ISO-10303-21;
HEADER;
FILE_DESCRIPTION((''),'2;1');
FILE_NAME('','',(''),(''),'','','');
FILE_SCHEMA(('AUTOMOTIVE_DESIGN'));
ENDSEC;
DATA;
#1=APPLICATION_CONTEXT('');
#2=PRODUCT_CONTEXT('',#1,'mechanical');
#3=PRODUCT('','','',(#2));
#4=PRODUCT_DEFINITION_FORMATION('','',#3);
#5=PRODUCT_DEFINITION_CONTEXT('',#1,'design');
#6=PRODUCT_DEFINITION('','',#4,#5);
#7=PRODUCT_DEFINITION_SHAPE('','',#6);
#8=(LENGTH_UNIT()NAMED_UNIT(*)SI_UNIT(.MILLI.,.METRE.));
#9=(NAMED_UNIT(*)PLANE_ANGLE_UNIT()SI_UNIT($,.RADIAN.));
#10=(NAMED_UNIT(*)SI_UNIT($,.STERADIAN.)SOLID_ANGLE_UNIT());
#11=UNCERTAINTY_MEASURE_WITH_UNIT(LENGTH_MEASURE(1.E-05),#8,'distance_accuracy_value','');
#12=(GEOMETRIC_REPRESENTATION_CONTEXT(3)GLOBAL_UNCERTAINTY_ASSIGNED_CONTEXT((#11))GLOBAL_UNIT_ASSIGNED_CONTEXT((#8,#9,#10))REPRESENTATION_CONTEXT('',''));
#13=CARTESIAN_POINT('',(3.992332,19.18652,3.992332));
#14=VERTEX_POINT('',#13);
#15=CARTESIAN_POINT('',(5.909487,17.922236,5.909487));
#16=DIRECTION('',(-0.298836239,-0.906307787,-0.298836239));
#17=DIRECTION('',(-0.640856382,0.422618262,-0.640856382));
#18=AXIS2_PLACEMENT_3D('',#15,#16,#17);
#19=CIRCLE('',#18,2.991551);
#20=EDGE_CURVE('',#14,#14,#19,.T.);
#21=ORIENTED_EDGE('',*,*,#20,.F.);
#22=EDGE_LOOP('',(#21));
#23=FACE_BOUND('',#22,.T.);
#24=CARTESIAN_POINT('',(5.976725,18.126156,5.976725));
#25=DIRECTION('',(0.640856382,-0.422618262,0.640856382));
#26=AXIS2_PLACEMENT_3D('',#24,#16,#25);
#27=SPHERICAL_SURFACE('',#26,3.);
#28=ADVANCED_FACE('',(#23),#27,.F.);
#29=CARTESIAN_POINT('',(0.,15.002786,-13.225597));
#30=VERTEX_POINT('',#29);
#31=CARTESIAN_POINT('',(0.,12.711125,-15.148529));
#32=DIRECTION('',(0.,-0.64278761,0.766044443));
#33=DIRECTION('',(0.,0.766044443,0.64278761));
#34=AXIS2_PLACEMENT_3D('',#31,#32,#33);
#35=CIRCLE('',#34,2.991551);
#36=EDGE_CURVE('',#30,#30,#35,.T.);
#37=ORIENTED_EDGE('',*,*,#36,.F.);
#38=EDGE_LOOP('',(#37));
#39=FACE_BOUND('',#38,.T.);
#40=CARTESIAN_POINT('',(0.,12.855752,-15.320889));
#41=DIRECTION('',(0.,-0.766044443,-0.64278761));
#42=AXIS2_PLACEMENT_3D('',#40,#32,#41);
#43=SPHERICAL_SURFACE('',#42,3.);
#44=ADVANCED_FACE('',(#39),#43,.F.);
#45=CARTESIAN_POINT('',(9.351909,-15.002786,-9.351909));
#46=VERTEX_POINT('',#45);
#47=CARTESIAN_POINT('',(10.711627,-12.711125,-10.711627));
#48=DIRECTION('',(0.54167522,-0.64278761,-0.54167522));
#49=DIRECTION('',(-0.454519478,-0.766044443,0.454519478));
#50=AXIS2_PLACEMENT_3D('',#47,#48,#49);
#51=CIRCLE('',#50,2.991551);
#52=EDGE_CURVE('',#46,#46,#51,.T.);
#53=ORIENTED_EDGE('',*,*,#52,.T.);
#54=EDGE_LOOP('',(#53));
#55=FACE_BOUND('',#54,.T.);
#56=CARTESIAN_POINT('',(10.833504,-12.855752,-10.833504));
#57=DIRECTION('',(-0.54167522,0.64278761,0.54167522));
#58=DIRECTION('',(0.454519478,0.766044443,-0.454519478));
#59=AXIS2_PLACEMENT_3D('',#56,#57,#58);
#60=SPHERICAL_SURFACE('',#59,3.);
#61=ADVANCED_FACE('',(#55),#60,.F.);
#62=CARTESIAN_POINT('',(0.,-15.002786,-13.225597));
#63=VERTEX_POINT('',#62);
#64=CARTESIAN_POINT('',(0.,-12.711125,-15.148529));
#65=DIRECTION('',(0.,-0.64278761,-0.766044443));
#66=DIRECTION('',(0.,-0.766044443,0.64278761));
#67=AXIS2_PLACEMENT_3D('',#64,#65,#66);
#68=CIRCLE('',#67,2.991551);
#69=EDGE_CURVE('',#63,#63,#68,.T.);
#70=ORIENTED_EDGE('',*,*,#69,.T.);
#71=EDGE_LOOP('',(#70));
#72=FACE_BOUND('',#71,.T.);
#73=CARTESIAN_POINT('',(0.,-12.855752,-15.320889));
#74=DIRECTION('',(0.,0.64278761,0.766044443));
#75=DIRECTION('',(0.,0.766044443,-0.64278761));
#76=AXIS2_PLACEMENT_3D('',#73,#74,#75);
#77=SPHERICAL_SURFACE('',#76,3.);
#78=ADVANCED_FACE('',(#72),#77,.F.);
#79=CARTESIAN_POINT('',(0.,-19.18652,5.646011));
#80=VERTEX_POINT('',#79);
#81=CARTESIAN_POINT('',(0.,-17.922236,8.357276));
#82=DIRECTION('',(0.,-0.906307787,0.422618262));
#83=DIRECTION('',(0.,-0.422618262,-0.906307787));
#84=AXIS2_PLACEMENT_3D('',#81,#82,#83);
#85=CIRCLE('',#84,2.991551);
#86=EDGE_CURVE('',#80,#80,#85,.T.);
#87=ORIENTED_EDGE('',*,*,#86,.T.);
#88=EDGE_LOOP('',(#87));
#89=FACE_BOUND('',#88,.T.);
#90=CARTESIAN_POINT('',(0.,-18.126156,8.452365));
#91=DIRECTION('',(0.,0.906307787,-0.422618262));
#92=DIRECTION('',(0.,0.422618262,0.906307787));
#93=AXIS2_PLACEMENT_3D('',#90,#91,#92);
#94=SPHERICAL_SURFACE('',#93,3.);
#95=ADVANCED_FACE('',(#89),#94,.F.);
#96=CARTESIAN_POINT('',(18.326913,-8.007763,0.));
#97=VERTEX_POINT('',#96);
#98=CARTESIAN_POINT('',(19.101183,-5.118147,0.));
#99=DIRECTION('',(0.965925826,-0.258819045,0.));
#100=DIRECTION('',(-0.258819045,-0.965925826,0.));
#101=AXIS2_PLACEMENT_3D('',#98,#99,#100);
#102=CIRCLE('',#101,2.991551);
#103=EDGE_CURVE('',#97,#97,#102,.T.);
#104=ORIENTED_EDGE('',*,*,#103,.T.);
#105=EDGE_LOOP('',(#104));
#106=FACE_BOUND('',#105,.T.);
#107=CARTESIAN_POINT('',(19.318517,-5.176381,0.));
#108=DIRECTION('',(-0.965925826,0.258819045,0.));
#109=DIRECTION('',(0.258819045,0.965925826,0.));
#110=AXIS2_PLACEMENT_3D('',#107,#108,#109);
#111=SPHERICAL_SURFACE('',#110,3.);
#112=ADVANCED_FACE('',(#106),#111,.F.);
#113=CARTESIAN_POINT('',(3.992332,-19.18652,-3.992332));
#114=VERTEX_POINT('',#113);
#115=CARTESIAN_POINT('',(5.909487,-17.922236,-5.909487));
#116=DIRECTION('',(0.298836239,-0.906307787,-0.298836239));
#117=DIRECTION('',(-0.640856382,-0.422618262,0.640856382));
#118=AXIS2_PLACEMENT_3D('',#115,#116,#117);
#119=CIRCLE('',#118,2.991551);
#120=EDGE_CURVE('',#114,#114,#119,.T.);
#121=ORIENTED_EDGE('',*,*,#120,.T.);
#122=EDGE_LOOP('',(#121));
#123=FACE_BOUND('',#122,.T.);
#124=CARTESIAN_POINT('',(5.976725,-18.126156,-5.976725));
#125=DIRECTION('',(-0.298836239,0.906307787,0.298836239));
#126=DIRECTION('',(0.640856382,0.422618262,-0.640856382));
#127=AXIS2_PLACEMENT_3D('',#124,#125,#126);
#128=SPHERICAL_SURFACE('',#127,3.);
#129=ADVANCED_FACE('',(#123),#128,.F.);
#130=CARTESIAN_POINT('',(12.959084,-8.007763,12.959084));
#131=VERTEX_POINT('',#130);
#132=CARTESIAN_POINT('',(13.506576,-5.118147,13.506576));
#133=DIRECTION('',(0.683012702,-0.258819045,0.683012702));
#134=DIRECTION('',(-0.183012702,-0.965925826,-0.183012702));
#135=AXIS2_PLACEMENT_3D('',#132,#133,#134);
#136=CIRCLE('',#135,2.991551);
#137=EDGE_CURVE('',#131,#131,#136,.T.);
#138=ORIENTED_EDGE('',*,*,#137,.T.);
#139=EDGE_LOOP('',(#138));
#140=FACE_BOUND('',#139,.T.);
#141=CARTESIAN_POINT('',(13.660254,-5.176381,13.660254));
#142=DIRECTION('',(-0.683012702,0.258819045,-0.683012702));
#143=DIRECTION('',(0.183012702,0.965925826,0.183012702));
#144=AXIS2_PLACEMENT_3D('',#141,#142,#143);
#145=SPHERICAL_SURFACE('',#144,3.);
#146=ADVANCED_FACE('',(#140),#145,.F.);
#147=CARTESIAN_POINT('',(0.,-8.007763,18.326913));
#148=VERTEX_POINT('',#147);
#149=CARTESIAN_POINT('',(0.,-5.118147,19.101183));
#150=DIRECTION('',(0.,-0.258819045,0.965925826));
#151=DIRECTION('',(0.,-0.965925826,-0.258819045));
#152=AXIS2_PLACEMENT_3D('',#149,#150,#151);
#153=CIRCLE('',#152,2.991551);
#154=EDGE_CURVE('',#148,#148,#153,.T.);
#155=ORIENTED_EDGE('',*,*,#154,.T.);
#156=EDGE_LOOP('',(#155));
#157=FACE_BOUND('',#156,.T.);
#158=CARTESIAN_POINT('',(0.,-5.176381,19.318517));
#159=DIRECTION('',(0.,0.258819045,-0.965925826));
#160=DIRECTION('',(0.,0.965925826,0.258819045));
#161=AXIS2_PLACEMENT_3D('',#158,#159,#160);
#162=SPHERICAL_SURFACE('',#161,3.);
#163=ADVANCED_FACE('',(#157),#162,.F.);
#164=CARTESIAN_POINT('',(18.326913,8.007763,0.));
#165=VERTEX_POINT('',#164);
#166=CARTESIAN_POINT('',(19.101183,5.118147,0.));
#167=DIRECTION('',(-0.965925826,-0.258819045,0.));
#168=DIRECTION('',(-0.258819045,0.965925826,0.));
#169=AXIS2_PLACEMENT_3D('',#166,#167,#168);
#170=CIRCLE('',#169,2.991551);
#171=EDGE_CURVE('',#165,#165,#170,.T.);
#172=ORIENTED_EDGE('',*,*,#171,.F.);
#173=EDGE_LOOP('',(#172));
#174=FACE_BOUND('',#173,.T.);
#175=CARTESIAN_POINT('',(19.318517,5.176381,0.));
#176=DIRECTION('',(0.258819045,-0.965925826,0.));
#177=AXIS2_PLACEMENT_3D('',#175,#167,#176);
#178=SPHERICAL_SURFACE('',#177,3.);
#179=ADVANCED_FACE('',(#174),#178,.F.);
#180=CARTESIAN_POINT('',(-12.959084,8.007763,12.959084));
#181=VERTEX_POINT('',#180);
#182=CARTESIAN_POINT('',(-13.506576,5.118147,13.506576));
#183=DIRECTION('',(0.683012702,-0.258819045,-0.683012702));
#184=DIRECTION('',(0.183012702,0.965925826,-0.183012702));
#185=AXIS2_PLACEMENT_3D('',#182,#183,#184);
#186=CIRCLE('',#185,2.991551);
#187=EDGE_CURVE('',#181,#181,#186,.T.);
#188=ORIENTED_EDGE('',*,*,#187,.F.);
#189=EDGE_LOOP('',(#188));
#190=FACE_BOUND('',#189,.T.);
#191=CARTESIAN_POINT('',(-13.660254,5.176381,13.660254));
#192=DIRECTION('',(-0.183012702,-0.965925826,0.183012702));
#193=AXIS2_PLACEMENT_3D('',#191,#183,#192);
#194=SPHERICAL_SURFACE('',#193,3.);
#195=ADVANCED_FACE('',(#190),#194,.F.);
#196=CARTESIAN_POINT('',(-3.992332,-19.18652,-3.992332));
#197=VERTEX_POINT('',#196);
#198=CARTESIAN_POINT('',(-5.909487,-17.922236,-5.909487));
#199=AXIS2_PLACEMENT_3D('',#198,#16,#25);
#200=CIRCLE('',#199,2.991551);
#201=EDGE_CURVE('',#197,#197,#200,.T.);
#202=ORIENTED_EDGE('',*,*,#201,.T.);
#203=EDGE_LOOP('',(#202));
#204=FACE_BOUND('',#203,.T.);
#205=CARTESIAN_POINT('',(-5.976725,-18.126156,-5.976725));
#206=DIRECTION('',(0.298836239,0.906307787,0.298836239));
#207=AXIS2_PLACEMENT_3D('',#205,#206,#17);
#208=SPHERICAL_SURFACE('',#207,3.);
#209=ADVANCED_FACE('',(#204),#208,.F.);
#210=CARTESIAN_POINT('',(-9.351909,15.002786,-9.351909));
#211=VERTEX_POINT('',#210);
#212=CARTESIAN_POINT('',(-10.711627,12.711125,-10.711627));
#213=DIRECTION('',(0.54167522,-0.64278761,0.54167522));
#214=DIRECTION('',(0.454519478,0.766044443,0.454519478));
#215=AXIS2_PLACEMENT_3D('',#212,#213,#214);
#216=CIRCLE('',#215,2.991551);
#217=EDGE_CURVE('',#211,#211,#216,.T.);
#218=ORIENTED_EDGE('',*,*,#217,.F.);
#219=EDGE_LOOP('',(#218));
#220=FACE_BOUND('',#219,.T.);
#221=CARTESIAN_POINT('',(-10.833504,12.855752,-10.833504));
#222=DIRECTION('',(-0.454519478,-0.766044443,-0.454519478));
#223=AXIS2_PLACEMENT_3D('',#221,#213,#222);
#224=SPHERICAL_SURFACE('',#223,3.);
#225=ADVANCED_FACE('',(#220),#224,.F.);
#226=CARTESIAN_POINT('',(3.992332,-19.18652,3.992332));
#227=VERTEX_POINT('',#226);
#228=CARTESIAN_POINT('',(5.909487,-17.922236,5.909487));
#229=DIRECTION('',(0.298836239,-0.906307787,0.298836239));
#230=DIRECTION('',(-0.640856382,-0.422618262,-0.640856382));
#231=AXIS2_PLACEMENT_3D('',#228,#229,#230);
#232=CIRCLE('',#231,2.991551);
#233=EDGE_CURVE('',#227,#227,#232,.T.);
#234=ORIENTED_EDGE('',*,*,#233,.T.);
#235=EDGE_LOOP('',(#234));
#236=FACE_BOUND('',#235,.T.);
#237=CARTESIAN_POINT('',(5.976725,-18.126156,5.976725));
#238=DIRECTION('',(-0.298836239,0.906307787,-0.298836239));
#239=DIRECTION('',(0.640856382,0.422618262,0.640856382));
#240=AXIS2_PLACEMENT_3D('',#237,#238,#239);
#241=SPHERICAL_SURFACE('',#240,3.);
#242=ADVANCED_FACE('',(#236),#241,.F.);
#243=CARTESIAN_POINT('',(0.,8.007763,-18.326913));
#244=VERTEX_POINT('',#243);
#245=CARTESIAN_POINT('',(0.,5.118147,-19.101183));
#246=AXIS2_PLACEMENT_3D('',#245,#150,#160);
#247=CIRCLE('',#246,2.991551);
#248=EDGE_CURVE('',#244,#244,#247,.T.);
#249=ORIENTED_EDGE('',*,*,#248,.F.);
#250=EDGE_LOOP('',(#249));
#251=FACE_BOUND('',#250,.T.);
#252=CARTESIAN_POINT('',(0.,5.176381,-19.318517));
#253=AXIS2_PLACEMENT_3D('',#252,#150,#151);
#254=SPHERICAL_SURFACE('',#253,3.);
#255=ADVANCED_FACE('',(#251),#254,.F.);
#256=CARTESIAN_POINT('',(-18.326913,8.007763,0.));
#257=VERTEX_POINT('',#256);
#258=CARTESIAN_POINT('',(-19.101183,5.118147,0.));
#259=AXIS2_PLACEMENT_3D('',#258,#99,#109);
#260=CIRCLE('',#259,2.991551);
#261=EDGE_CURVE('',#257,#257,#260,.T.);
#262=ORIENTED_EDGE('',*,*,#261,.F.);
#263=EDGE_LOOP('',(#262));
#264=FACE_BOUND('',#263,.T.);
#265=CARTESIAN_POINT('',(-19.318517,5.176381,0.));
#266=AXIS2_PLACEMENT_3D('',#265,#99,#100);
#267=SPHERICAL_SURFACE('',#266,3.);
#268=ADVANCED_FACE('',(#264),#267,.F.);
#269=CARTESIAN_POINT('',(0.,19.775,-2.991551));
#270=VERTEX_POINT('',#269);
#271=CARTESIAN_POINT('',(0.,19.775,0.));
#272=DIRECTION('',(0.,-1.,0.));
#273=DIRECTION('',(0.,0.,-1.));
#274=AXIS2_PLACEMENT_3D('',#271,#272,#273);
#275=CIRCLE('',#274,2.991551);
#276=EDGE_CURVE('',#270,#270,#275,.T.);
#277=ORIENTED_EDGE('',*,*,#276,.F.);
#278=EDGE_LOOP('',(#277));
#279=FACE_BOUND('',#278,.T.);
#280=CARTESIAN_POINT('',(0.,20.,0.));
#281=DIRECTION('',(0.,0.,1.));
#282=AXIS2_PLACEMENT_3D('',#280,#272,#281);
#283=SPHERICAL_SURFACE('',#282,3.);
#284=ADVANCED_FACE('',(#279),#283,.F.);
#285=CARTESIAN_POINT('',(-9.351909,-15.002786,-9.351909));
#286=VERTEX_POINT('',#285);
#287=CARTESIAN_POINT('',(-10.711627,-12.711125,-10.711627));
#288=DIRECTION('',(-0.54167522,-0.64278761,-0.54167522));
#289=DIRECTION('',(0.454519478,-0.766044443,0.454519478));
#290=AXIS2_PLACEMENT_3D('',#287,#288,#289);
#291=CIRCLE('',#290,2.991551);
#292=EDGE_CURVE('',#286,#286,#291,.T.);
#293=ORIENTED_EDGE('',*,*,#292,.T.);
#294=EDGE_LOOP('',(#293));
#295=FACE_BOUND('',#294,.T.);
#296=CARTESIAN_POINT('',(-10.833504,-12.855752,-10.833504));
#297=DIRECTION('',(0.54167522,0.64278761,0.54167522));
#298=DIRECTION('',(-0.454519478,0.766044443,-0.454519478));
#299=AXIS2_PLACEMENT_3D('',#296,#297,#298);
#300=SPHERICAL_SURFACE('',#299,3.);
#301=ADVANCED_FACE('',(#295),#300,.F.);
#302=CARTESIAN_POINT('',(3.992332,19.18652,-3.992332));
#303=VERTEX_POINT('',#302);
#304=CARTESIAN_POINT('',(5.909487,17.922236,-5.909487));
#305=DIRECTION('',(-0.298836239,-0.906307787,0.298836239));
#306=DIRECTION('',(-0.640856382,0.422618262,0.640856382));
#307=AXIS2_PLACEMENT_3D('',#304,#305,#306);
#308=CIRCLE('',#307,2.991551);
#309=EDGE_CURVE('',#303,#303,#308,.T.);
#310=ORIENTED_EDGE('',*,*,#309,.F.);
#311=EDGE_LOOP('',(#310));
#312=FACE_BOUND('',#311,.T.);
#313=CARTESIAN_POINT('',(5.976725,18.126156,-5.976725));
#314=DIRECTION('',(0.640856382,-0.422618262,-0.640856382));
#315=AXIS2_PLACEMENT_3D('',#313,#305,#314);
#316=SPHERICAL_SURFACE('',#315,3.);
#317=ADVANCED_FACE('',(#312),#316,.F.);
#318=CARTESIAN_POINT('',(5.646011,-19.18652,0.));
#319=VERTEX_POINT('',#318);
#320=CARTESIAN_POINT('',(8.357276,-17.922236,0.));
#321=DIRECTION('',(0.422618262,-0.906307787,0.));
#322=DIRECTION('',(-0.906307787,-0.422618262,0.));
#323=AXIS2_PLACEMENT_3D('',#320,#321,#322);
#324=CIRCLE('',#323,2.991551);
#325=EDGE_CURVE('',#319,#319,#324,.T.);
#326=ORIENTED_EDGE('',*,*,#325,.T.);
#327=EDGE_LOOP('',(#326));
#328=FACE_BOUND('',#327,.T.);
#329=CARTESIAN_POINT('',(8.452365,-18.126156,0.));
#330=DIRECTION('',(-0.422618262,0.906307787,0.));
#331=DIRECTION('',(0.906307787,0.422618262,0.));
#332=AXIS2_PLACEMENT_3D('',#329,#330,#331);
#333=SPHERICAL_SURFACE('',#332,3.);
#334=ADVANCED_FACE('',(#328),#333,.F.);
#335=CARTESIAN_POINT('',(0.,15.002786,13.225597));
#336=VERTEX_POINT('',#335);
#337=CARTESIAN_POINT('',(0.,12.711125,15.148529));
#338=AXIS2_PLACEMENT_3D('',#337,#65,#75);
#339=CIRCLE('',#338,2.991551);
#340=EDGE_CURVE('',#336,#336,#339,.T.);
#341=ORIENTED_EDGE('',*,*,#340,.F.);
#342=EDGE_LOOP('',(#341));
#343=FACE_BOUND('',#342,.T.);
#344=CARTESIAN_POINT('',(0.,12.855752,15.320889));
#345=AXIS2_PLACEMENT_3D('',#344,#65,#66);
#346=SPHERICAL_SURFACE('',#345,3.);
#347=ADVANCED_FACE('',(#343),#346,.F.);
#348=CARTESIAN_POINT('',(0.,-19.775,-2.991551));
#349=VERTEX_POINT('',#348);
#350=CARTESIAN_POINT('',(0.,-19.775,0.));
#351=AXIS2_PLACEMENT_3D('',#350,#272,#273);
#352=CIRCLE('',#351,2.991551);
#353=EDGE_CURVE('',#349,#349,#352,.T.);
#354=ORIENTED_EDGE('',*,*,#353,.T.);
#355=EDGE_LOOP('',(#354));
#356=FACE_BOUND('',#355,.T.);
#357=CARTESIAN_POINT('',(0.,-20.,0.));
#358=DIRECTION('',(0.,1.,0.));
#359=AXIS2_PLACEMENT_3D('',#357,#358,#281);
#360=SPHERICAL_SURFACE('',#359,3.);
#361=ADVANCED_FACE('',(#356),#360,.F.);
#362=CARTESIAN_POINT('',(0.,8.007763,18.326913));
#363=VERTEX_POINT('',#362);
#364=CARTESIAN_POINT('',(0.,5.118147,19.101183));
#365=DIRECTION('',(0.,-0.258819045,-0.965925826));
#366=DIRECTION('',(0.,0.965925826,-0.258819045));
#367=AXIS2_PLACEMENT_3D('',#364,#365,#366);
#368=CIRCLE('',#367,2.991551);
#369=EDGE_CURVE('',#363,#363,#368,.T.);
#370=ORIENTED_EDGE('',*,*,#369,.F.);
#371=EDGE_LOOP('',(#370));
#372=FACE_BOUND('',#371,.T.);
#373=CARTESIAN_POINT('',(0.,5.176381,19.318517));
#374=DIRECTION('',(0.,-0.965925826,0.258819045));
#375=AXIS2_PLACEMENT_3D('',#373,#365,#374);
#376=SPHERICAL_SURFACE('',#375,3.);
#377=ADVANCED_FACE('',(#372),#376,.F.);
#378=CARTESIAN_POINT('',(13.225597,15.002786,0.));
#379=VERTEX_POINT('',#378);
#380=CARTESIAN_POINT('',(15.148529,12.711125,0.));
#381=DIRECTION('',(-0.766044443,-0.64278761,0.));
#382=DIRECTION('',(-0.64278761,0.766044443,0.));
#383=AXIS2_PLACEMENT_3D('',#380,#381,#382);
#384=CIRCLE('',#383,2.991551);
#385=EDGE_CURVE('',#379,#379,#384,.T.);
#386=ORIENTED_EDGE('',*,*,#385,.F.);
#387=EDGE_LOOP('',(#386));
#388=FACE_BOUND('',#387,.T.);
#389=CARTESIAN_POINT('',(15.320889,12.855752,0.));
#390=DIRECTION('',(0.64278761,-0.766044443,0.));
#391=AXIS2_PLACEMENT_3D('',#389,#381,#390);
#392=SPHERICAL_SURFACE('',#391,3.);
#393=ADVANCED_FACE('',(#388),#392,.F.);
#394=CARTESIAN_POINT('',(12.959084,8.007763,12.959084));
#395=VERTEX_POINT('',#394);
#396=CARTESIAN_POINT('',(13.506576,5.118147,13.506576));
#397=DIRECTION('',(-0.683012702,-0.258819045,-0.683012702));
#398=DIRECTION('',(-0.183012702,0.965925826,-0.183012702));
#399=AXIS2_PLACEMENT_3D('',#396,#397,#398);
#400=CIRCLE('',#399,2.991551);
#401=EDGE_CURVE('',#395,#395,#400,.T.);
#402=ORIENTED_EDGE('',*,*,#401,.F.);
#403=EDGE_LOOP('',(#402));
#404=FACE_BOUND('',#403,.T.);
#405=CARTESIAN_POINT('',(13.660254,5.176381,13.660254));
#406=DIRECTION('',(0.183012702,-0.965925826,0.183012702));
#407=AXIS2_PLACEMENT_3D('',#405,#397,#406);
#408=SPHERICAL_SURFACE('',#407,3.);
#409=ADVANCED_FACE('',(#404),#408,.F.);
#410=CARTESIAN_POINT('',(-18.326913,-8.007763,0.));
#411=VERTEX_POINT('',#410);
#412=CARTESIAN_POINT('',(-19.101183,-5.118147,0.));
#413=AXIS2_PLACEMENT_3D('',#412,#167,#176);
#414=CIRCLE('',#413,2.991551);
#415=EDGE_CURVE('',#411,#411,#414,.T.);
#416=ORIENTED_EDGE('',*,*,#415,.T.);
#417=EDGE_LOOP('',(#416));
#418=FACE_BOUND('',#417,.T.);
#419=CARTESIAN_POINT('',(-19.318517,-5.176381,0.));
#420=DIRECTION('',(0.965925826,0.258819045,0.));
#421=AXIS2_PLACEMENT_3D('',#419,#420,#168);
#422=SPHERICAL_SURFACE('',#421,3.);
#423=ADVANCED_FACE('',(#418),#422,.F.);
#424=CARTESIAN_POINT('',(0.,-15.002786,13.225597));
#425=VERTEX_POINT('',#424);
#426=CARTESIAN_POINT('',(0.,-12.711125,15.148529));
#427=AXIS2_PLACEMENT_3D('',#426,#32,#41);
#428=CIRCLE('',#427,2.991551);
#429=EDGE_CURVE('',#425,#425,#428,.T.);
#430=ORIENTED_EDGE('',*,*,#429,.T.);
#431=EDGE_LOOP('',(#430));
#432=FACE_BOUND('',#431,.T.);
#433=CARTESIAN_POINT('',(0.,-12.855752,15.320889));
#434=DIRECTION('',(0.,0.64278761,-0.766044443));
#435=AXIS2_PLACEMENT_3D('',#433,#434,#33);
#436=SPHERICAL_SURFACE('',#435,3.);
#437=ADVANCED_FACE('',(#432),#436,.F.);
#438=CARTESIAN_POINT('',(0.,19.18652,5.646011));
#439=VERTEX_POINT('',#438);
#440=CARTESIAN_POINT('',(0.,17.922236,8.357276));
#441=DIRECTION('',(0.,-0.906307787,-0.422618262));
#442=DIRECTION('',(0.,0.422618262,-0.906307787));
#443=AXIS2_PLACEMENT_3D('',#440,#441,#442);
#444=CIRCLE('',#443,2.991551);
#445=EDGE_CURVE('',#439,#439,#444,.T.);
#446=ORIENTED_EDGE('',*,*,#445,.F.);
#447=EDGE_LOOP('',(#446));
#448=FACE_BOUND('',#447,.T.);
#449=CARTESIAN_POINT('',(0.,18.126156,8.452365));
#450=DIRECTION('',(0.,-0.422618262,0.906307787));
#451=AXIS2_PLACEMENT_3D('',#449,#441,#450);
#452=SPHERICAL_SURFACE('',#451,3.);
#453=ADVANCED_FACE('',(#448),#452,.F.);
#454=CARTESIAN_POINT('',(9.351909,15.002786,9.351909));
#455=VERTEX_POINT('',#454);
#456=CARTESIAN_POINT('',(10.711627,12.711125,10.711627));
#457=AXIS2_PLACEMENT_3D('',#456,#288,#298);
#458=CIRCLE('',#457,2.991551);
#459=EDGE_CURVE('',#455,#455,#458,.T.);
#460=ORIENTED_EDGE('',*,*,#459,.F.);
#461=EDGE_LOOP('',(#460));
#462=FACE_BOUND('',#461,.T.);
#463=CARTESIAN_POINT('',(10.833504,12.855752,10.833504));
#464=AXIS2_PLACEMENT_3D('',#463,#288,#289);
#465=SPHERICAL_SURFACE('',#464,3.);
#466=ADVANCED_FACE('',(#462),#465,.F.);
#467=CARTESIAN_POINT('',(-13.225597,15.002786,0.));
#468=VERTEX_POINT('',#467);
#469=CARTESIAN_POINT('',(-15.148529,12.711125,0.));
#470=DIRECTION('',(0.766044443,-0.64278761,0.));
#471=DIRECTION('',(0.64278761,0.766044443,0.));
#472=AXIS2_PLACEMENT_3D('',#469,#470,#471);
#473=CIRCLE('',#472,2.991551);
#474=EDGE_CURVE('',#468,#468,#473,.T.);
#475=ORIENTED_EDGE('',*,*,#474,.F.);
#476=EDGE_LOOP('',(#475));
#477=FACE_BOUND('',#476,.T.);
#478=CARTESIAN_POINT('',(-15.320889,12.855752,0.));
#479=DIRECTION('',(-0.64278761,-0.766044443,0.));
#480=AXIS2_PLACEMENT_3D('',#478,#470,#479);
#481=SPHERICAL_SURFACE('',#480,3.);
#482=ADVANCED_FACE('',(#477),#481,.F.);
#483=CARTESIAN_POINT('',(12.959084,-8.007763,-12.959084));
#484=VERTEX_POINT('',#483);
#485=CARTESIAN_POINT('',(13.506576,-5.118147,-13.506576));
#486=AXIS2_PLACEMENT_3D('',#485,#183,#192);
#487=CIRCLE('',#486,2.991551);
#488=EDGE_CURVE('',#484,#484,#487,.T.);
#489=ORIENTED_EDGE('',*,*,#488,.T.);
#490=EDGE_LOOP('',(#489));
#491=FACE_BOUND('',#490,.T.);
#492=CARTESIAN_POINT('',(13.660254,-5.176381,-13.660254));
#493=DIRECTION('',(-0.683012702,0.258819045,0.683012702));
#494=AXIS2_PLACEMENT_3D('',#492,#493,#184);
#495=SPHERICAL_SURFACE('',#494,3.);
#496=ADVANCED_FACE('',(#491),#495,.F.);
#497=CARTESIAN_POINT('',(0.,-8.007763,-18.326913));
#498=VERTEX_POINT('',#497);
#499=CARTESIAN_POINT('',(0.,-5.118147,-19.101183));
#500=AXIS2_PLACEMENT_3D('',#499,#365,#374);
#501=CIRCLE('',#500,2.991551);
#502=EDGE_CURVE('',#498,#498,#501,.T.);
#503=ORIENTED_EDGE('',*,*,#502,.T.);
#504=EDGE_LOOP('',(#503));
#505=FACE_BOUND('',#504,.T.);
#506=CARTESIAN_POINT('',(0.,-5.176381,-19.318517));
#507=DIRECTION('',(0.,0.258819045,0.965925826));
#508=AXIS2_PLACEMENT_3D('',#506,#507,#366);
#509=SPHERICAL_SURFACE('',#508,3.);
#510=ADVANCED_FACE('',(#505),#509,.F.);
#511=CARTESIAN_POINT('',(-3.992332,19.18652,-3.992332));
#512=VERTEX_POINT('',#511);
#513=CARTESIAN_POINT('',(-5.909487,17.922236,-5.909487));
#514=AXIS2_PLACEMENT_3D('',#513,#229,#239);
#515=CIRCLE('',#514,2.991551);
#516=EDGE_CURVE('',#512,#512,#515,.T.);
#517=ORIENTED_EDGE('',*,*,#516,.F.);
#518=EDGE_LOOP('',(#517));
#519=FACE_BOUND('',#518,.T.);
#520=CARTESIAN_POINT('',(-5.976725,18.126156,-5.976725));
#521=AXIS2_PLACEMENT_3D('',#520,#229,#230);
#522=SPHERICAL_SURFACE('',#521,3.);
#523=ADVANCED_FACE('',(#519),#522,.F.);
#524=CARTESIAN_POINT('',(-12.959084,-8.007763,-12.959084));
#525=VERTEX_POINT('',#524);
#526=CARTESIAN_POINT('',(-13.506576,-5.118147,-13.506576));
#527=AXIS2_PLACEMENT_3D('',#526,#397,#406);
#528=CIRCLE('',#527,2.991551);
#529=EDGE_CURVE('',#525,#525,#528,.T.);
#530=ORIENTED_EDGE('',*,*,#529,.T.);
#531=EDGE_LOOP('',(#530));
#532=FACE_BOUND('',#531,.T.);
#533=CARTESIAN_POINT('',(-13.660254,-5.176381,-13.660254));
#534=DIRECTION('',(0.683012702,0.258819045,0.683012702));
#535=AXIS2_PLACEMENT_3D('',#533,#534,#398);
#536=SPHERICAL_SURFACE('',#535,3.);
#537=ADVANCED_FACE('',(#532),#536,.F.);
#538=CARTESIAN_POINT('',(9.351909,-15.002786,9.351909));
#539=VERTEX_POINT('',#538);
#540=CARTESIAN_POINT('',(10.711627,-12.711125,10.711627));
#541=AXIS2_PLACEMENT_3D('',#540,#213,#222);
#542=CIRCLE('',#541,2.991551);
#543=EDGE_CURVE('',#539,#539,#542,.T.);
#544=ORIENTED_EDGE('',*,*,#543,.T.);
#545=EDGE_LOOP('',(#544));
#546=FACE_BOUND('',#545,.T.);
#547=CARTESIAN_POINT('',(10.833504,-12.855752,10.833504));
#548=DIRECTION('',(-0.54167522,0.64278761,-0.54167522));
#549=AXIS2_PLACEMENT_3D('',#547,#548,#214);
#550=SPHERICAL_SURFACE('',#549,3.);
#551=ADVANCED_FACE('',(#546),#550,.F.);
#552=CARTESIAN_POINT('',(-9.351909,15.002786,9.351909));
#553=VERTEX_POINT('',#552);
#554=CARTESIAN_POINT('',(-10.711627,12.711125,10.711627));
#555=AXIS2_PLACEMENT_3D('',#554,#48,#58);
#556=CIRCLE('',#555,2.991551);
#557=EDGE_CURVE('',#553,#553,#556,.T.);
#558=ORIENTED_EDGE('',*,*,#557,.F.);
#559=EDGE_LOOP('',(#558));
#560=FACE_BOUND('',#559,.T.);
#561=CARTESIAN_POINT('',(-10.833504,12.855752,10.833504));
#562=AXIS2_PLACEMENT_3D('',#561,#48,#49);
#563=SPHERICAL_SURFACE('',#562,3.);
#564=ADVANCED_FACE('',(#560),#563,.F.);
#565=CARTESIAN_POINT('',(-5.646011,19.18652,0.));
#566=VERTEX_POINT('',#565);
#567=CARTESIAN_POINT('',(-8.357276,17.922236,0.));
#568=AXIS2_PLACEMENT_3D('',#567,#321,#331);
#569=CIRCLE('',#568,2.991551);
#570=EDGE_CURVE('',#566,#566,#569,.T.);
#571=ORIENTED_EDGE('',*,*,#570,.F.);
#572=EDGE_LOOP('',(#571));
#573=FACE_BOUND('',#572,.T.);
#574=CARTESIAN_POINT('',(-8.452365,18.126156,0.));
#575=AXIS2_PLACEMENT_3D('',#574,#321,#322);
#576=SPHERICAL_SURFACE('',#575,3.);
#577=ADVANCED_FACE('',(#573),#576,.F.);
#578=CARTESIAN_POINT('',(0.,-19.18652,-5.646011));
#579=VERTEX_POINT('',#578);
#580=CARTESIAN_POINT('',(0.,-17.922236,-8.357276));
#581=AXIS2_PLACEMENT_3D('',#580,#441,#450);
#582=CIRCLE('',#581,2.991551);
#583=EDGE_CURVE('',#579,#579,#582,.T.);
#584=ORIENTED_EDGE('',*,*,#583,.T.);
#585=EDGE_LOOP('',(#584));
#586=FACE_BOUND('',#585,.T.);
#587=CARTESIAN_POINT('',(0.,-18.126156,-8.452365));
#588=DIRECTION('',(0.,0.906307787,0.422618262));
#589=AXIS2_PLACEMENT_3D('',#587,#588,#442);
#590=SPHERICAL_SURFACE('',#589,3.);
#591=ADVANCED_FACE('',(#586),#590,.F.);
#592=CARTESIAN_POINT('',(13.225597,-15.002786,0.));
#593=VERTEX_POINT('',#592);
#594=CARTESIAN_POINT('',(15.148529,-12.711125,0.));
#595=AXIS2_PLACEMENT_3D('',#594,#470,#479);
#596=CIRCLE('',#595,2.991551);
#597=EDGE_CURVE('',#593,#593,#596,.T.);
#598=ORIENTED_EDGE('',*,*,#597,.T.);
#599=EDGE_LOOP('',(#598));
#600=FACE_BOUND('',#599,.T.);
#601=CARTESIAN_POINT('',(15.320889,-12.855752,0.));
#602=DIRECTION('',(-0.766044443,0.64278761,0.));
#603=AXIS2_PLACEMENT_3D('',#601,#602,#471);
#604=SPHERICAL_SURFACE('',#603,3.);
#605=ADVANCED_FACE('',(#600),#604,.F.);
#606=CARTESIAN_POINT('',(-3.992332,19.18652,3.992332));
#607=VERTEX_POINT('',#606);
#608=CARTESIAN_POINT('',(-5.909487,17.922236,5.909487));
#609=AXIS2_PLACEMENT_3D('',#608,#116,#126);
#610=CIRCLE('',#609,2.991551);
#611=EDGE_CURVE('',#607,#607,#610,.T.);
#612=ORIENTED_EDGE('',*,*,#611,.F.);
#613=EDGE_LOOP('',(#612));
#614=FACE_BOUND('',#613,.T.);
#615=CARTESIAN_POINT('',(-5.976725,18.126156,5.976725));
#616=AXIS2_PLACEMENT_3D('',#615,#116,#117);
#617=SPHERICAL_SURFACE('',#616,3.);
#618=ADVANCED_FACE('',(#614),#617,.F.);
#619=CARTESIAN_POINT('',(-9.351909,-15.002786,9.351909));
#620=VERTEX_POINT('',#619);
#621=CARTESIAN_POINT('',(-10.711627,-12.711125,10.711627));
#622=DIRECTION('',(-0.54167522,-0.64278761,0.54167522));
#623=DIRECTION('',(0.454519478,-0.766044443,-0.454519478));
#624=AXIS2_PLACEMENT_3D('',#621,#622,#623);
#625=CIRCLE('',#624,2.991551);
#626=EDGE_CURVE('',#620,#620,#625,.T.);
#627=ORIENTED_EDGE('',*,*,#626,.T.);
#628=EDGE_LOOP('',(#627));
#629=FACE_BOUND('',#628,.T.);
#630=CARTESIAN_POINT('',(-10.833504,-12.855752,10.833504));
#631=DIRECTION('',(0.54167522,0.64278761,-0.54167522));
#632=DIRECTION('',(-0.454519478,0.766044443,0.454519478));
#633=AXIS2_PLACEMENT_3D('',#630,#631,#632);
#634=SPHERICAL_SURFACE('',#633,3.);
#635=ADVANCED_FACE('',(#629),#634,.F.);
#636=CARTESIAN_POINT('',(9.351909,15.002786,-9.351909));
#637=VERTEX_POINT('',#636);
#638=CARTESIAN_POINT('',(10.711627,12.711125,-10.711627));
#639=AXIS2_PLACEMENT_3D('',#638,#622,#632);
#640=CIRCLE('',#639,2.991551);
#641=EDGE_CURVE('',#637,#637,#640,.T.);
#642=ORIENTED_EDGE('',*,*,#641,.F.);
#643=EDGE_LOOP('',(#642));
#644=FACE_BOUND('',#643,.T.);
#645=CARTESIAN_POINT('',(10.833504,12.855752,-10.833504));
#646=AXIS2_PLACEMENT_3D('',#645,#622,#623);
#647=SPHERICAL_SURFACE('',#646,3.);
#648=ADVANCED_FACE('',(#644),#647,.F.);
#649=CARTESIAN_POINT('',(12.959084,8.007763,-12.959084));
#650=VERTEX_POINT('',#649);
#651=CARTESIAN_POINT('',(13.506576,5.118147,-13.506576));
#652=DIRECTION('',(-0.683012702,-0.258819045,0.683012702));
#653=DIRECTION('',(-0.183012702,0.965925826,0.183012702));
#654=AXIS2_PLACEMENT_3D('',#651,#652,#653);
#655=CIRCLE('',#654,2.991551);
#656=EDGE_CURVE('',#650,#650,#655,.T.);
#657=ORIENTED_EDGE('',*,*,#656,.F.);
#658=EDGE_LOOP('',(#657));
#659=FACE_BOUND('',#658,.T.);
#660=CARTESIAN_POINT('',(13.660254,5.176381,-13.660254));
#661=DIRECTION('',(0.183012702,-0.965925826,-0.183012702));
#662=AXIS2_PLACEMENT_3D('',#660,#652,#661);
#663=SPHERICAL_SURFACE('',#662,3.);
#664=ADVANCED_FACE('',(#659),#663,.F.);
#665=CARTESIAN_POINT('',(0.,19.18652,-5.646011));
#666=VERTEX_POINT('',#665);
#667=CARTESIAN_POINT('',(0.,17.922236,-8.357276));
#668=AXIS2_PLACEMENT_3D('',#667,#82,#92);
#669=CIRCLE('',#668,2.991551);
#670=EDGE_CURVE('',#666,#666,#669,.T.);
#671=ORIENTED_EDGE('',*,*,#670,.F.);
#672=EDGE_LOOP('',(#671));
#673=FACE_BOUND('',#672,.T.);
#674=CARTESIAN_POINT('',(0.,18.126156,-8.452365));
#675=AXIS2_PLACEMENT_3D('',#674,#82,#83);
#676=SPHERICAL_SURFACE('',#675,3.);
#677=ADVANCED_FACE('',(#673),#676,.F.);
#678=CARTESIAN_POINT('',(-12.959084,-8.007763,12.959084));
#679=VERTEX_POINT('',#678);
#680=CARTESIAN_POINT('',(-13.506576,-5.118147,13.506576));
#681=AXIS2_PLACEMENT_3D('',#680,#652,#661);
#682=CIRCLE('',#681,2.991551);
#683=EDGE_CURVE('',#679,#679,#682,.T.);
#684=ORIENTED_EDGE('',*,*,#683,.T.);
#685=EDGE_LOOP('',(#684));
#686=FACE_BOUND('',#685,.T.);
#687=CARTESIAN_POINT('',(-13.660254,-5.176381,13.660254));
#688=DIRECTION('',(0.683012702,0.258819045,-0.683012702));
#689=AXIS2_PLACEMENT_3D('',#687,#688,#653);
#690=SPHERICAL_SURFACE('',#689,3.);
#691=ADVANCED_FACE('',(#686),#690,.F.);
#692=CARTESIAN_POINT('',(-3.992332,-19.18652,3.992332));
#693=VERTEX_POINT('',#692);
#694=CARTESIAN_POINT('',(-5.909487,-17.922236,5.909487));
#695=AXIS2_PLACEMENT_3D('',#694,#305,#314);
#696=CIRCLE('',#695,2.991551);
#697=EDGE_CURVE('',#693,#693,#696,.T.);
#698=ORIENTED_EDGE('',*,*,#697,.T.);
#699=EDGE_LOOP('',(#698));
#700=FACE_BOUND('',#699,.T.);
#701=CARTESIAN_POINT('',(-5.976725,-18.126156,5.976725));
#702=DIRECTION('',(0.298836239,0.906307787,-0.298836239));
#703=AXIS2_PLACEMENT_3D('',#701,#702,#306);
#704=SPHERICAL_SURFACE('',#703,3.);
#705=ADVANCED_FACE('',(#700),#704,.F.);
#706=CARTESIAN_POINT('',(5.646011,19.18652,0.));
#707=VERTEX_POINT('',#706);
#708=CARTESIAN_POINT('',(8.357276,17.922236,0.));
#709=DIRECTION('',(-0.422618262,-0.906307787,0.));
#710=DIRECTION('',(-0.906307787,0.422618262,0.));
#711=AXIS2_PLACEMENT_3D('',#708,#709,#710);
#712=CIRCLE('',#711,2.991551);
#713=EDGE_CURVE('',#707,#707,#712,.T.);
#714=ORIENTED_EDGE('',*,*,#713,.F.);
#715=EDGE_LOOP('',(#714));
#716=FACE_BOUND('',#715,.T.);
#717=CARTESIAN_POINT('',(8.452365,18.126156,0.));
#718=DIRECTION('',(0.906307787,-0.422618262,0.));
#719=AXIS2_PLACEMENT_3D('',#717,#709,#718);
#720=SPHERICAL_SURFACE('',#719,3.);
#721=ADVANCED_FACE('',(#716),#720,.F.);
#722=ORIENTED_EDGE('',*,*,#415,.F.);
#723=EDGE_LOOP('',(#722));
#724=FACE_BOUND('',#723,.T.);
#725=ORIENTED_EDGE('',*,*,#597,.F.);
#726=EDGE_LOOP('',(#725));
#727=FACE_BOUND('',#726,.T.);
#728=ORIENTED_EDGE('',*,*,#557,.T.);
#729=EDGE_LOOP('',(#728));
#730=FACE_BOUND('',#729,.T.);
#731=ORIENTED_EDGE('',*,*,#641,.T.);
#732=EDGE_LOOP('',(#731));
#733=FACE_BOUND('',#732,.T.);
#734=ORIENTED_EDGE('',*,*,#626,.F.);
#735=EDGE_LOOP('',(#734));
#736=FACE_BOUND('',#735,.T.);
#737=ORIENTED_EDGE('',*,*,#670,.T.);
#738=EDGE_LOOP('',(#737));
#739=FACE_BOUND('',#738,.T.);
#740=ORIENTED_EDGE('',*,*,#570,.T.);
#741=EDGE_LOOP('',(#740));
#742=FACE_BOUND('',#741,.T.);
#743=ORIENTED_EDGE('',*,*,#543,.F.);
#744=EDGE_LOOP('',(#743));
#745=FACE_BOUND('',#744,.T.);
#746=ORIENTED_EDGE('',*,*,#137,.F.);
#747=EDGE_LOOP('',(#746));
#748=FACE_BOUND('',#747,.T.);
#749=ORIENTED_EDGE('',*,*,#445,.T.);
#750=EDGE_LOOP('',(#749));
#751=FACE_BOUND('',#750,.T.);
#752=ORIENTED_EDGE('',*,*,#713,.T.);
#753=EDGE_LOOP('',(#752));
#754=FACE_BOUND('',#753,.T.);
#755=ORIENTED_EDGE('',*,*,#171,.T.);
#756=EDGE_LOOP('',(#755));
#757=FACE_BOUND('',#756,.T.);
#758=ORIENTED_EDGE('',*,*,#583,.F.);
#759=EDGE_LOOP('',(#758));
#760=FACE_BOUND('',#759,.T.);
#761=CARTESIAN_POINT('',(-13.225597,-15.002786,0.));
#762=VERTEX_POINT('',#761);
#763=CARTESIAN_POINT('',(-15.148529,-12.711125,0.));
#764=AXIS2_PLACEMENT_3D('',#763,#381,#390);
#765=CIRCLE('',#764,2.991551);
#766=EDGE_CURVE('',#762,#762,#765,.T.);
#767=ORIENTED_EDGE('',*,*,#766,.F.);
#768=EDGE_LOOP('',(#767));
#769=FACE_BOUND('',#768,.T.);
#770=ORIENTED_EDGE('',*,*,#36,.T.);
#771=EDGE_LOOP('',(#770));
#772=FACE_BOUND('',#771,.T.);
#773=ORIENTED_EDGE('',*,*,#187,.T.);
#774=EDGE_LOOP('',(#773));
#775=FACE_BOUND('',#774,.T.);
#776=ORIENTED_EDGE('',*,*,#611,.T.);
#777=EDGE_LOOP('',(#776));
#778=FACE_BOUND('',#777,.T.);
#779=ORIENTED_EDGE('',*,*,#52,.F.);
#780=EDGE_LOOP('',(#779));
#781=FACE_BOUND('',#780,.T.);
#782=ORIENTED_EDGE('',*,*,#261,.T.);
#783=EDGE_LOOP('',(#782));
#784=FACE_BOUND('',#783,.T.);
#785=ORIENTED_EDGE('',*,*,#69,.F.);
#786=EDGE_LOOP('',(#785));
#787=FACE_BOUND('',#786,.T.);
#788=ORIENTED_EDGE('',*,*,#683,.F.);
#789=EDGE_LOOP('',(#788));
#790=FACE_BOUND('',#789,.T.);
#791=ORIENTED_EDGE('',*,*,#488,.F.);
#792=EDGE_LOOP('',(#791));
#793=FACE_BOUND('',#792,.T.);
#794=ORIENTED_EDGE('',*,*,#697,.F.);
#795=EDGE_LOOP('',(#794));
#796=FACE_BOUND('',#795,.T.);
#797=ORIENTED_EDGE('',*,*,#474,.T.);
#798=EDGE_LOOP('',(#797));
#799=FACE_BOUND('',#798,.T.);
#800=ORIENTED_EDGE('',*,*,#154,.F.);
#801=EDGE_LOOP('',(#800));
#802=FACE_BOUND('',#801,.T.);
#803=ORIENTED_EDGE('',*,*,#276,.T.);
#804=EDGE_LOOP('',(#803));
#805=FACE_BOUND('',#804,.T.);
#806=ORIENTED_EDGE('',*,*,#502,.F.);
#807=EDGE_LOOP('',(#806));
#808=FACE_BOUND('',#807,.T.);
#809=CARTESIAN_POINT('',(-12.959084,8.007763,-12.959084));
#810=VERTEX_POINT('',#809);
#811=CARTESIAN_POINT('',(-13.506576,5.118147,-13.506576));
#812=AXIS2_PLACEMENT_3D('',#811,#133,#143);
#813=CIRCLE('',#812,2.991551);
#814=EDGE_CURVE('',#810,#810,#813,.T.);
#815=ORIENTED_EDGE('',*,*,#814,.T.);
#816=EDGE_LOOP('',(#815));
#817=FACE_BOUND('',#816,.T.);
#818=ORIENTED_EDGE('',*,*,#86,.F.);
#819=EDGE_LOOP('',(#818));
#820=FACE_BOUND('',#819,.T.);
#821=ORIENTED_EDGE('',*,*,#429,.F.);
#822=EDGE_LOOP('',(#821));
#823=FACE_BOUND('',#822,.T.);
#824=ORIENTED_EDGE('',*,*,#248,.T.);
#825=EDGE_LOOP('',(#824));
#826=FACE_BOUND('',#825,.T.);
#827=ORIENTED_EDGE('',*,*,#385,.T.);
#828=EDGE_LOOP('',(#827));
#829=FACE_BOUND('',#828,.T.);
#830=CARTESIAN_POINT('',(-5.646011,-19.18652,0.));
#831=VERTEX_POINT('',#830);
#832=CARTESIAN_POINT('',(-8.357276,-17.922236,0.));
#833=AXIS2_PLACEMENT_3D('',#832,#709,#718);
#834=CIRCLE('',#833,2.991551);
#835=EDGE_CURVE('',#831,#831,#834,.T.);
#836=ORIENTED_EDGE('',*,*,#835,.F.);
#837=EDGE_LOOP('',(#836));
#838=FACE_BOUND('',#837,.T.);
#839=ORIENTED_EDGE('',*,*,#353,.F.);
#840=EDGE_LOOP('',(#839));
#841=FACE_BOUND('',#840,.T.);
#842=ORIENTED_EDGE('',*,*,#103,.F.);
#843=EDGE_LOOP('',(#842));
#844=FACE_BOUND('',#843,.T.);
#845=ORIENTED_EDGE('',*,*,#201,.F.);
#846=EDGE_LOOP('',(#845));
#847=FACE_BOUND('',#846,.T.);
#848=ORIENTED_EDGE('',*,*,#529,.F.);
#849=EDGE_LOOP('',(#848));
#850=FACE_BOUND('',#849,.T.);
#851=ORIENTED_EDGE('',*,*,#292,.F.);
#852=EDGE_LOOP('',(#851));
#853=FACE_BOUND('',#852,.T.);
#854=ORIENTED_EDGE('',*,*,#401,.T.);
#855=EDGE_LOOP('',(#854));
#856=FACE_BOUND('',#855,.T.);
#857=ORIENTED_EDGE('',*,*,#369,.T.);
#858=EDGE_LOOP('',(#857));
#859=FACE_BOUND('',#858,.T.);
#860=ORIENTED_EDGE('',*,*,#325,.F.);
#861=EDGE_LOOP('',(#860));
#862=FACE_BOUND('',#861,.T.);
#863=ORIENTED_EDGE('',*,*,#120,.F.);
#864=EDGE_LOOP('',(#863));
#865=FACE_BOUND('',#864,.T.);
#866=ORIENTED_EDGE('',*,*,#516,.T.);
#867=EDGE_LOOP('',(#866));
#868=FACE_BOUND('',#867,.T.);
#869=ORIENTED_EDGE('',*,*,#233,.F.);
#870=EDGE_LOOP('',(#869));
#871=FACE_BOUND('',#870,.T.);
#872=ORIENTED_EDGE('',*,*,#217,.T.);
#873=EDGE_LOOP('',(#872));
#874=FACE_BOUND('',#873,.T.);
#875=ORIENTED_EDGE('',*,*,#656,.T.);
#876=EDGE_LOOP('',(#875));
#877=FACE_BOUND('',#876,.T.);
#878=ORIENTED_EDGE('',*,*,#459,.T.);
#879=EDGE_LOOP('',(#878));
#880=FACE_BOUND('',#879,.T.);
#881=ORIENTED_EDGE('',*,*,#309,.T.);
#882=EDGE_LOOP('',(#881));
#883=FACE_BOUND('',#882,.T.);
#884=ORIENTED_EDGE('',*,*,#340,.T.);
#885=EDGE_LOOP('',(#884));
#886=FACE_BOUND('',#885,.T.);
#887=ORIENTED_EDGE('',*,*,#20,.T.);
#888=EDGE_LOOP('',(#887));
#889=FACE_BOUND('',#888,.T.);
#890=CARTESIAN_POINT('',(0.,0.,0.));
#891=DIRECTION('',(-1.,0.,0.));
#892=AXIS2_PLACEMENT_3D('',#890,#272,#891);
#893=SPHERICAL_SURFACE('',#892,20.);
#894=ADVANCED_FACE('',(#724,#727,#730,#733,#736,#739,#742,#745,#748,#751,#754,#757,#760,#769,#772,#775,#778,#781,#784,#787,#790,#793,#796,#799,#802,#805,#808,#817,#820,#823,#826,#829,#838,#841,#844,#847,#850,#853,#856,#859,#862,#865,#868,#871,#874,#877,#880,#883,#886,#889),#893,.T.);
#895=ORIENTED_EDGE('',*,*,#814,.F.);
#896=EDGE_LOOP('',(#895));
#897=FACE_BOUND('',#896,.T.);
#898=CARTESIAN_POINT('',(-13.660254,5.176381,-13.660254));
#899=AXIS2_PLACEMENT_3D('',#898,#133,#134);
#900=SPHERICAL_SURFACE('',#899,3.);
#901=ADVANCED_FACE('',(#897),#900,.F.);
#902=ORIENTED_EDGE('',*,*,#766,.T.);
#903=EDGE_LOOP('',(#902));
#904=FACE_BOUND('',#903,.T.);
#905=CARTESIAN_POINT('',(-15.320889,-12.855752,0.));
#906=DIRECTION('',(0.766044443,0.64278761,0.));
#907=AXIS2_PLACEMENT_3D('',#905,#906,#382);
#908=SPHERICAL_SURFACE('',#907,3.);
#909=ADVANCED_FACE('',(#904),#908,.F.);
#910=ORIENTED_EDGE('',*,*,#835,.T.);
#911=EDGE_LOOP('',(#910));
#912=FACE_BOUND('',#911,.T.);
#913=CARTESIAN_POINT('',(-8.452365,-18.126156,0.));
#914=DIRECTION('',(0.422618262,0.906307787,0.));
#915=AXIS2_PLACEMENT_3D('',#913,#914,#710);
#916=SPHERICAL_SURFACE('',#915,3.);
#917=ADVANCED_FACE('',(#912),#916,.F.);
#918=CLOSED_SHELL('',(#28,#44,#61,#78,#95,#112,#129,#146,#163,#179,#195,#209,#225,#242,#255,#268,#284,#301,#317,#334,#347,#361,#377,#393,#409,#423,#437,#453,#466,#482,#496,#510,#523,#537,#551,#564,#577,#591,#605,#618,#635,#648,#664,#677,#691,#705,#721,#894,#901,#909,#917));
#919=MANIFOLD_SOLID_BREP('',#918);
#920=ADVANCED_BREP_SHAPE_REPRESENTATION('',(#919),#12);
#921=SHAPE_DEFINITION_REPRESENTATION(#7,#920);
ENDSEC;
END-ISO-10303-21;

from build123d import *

# Parameters (mm, degrees)
CIRPATTERN1_COUNT = 4
CIRPATTERN1_ANGLE = 75


with BuildPart() as part:
    # Sketch1 → Revolve1 (revolve)
    with BuildSketch(Plane.XY, mode=Mode.PRIVATE) as revolve1_sk:
        with BuildLine():
            ThreePointArc((0, 20), (14.142135624, 14.142135624), (20, 0))
            Line((20, 0), (0, 0))
            Line((0, 0), (0, 20))
        make_face()
    revolve(revolve1_sk.sketch.rotate(Axis((0, 0, 0), (0, 1, 0)), 180), axis=Axis((0, 0, 0), (0, 1, 0)))

    # Sketch2 → Cut-Revolve1 (revolve, cut)
    with BuildSketch(Plane(origin=(0, 0, 0), x_dir=(0, 0, -1), z_dir=(1, 0, 0)), mode=Mode.PRIVATE) as cut_revolve1_sk:
        with BuildLine():
            Line((0, 17), (0, 20))
            ThreePointArc((0, 20), (-1.5, 19.943670675), (-2.991550601, 19.775))
            ThreePointArc((-2.991550601, 19.775), (-2.040220576, 17.800568255), (0, 17))
        make_face()
    cut_revolve1 = revolve(cut_revolve1_sk.sketch.rotate(Axis((0, 17, 0), (0, 1, 0)), 180), axis=Axis((0, 17, 0), (0, 1, 0)), mode=Mode.SUBTRACT)

    # CirPattern1: Cut-Revolve1 ×4 about axis
    cirpattern1_axis = Axis((0, 0, 0), (1, 0, 0))
    for i in range(1, CIRPATTERN1_COUNT):
        add(cut_revolve1.rotate(cirpattern1_axis, i * CIRPATTERN1_ANGLE / (CIRPATTERN1_COUNT - 1)), mode=Mode.SUBTRACT)

    # CirPattern2 copy 1 sketch → CirPattern2 copy 1 (revolve, cut)
    with BuildSketch(Plane(origin=(0, 0, 0), x_dir=(-0.6408563820557882, 0.42261826174070016, -0.6408563820557883), z_dir=(0.7071067811865476, 0, -0.7071067811865475))):
        with BuildLine():
            Line((0, 17), (0, 20))
            ThreePointArc((0, 20), (-1.5, 19.943670675), (-2.991550601, 19.775))
            ThreePointArc((-2.991550601, 19.775), (-2.040220576, 17.800568255), (0, 17))
        make_face()
    revolve(axis=Axis((5.080216058, 15.40723238, 5.080216058), (0.29883623873012033, 0.9063077870366496, 0.2988362387301204)), mode=Mode.SUBTRACT)

    # CirPattern2 copy 2 sketch → CirPattern2 copy 2 (revolve, cut)
    with BuildSketch(Plane(origin=(0, 0, 0), x_dir=(-0.9063077870366496, 0.42261826174070016, 0), z_dir=(0, 0, -1))):
        with BuildLine():
            Line((0, 17), (0, 20))
            ThreePointArc((0, 20), (-1.5, 19.943670675), (-2.991550601, 19.775))
            ThreePointArc((-2.991550601, 19.775), (-2.040220576, 17.800568255), (0, 17))
        make_face()
    revolve(axis=Axis((7.18451045, 15.40723238, 0), (0.42261826174070016, 0.9063077870366496, 0)), mode=Mode.SUBTRACT)

    # CirPattern2 copy 3 sketch → CirPattern2 copy 3 (revolve, cut)
    with BuildSketch(Plane(origin=(0, 0, 0), x_dir=(-0.6408563820557883, 0.42261826174070016, 0.6408563820557882), z_dir=(-0.7071067811865475, 0, -0.7071067811865476))):
        with BuildLine():
            Line((0, 17), (0, 20))
            ThreePointArc((0, 20), (-1.5, 19.943670675), (-2.991550601, 19.775))
            ThreePointArc((-2.991550601, 19.775), (-2.040220576, 17.800568255), (0, 17))
        make_face()
    revolve(axis=Axis((5.080216058, 15.40723238, -5.080216058), (0.2988362387301204, 0.9063077870366496, -0.29883623873012033)), mode=Mode.SUBTRACT)

    # CirPattern2 copy 4 sketch → CirPattern2 copy 4 (revolve, cut)
    with BuildSketch(Plane(origin=(0, 0, 0), x_dir=(0, 0.42261826174070016, 0.9063077870366496), z_dir=(-1, 0, 0))):
        with BuildLine():
            Line((0, 17), (0, 20))
            ThreePointArc((0, 20), (-1.5, 19.943670675), (-2.991550601, 19.775))
            ThreePointArc((-2.991550601, 19.775), (-2.040220576, 17.800568255), (0, 17))
        make_face()
    revolve(axis=Axis((0, 15.40723238, -7.18451045), (0, 0.9063077870366496, -0.42261826174070016)), mode=Mode.SUBTRACT)

    # CirPattern2 copy 5 sketch → CirPattern2 copy 5 (revolve, cut)
    with BuildSketch(Plane(origin=(0, 0, 0), x_dir=(0.6408563820557882, 0.42261826174070016, 0.6408563820557884), z_dir=(-0.7071067811865477, 0, 0.7071067811865475))):
        with BuildLine():
            Line((0, 17), (0, 20))
            ThreePointArc((0, 20), (-1.5, 19.943670675), (-2.991550601, 19.775))
            ThreePointArc((-2.991550601, 19.775), (-2.040220576, 17.800568255), (0, 17))
        make_face()
    revolve(axis=Axis((-5.080216058, 15.40723238, -5.080216058), (-0.29883623873012033, 0.9063077870366496, -0.2988362387301204)), mode=Mode.SUBTRACT)

    # CirPattern2 copy 6 sketch → CirPattern2 copy 6 (revolve, cut)
    with BuildSketch(Plane(origin=(0, 0, 0), x_dir=(0.9063077870366496, 0.42261826174070016, 0), z_dir=(0, 0, 1))):
        with BuildLine():
            Line((0, 17), (0, 20))
            ThreePointArc((0, 20), (-1.5, 19.943670675), (-2.991550601, 19.775))
            ThreePointArc((-2.991550601, 19.775), (-2.040220576, 17.800568255), (0, 17))
        make_face()
    revolve(axis=Axis((-7.18451045, 15.40723238, 0), (-0.42261826174070016, 0.9063077870366496, 0)), mode=Mode.SUBTRACT)

    # CirPattern2 copy 7 sketch → CirPattern2 copy 7 (revolve, cut)
    with BuildSketch(Plane(origin=(0, 0, 0), x_dir=(0.6408563820557884, 0.42261826174070016, -0.6408563820557881), z_dir=(0.7071067811865474, 0, 0.7071067811865477))):
        with BuildLine():
            Line((0, 17), (0, 20))
            ThreePointArc((0, 20), (-1.5, 19.943670675), (-2.991550601, 19.775))
            ThreePointArc((-2.991550601, 19.775), (-2.040220576, 17.800568255), (0, 17))
        make_face()
    revolve(axis=Axis((-5.080216058, 15.40723238, 5.080216058), (-0.2988362387301204, 0.9063077870366496, 0.2988362387301203)), mode=Mode.SUBTRACT)

    # CirPattern2 copy 8 sketch → CirPattern2 copy 8 (revolve, cut)
    with BuildSketch(Plane(origin=(0, 0, 0), x_dir=(-0.4545194776720427, 0.7660444431189791, -0.4545194776720428), z_dir=(0.7071067811865476, 0, -0.7071067811865475))):
        with BuildLine():
            Line((0, 17), (0, 20))
            ThreePointArc((0, 20), (-1.5, 19.943670675), (-2.991550601, 19.775))
            ThreePointArc((-2.991550601, 19.775), (-2.040220576, 17.800568255), (0, 17))
        make_face()
    revolve(axis=Axis((9.208478747, 10.927389365, 9.208478747), (0.5416752204197026, 0.642787609686538, 0.5416752204197026)), mode=Mode.SUBTRACT)

    # CirPattern2 copy 9 sketch → CirPattern2 copy 9 (revolve, cut)
    with BuildSketch(Plane(origin=(0, 0, 0), x_dir=(-0.642787609686538, 0.7660444431189791, 0), z_dir=(0, 0, -1))):
        with BuildLine():
            Line((0, 17), (0, 20))
            ThreePointArc((0, 20), (-1.5, 19.943670675), (-2.991550601, 19.775))
            ThreePointArc((-2.991550601, 19.775), (-2.040220576, 17.800568255), (0, 17))
        make_face()
    revolve(axis=Axis((13.022755533, 10.927389365, 0), (0.7660444431189791, 0.642787609686538, 0)), mode=Mode.SUBTRACT)

    # CirPattern2 copy 10 sketch → CirPattern2 copy 10 (revolve, cut)
    with BuildSketch(Plane(origin=(0, 0, 0), x_dir=(-0.4545194776720428, 0.7660444431189791, 0.4545194776720427), z_dir=(-0.7071067811865475, 0, -0.7071067811865476))):
        with BuildLine():
            Line((0, 17), (0, 20))
            ThreePointArc((0, 20), (-1.5, 19.943670675), (-2.991550601, 19.775))
            ThreePointArc((-2.991550601, 19.775), (-2.040220576, 17.800568255), (0, 17))
        make_face()
    revolve(axis=Axis((9.208478747, 10.927389365, -9.208478747), (0.5416752204197026, 0.642787609686538, -0.5416752204197026)), mode=Mode.SUBTRACT)

    # CirPattern2 copy 11 sketch → CirPattern2 copy 11 (revolve, cut)
    with BuildSketch(Plane(origin=(0, 0, 0), x_dir=(0, 0.7660444431189791, 0.642787609686538), z_dir=(-1, 0, 0))):
        with BuildLine():
            Line((0, 17), (0, 20))
            ThreePointArc((0, 20), (-1.5, 19.943670675), (-2.991550601, 19.775))
            ThreePointArc((-2.991550601, 19.775), (-2.040220576, 17.800568255), (0, 17))
        make_face()
    revolve(axis=Axis((0, 10.927389365, -13.022755533), (0, 0.642787609686538, -0.7660444431189791)), mode=Mode.SUBTRACT)

    # CirPattern2 copy 12 sketch → CirPattern2 copy 12 (revolve, cut)
    with BuildSketch(Plane(origin=(0, 0, 0), x_dir=(0.4545194776720427, 0.7660444431189791, 0.45451947767204287), z_dir=(-0.7071067811865477, 0, 0.7071067811865475))):
        with BuildLine():
            Line((0, 17), (0, 20))
            ThreePointArc((0, 20), (-1.5, 19.943670675), (-2.991550601, 19.775))
            ThreePointArc((-2.991550601, 19.775), (-2.040220576, 17.800568255), (0, 17))
        make_face()
    revolve(axis=Axis((-9.208478747, 10.927389365, -9.208478747), (-0.5416752204197026, 0.642787609686538, -0.5416752204197027)), mode=Mode.SUBTRACT)

    # CirPattern2 copy 13 sketch → CirPattern2 copy 13 (revolve, cut)
    with BuildSketch(Plane(origin=(0, 0, 0), x_dir=(0.642787609686538, 0.7660444431189791, 0), z_dir=(0, 0, 1))):
        with BuildLine():
            Line((0, 17), (0, 20))
            ThreePointArc((0, 20), (-1.5, 19.943670675), (-2.991550601, 19.775))
            ThreePointArc((-2.991550601, 19.775), (-2.040220576, 17.800568255), (0, 17))
        make_face()
    revolve(axis=Axis((-13.022755533, 10.927389365, 0), (-0.7660444431189791, 0.642787609686538, 0)), mode=Mode.SUBTRACT)

    # CirPattern2 copy 14 sketch → CirPattern2 copy 14 (revolve, cut)
    with BuildSketch(Plane(origin=(0, 0, 0), x_dir=(0.45451947767204287, 0.7660444431189791, -0.45451947767204265), z_dir=(0.7071067811865474, 0, 0.7071067811865477))):
        with BuildLine():
            Line((0, 17), (0, 20))
            ThreePointArc((0, 20), (-1.5, 19.943670675), (-2.991550601, 19.775))
            ThreePointArc((-2.991550601, 19.775), (-2.040220576, 17.800568255), (0, 17))
        make_face()
    revolve(axis=Axis((-9.208478747, 10.927389365, 9.208478747), (-0.5416752204197027, 0.642787609686538, 0.5416752204197025)), mode=Mode.SUBTRACT)

    # CirPattern2 copy 15 sketch → CirPattern2 copy 15 (revolve, cut)
    with BuildSketch(Plane(origin=(0, 0, 0), x_dir=(-0.18301270189221763, 0.965925826289069, -0.18301270189221766), z_dir=(0.7071067811865476, 0, -0.7071067811865475))):
        with BuildLine():
            Line((0, 17), (0, 20))
            ThreePointArc((0, 20), (-1.5, 19.943670675), (-2.991550601, 19.775))
            ThreePointArc((-2.991550601, 19.775), (-2.040220576, 17.800568255), (0, 17))
        make_face()
    revolve(axis=Axis((11.611215932, 4.399923767, 11.611215932), (0.6830127018922197, 0.2588190451025184, 0.6830127018922199)), mode=Mode.SUBTRACT)

    # CirPattern2 copy 16 sketch → CirPattern2 copy 16 (revolve, cut)
    with BuildSketch(Plane(origin=(0, 0, 0), x_dir=(-0.2588190451025184, 0.965925826289069, 0), z_dir=(0, 0, -1))):
        with BuildLine():
            Line((0, 17), (0, 20))
            ThreePointArc((0, 20), (-1.5, 19.943670675), (-2.991550601, 19.775))
            ThreePointArc((-2.991550601, 19.775), (-2.040220576, 17.800568255), (0, 17))
        make_face()
    revolve(axis=Axis((16.420739047, 4.399923767, 0), (0.965925826289069, 0.2588190451025184, 0)), mode=Mode.SUBTRACT)

    # CirPattern2 copy 17 sketch → CirPattern2 copy 17 (revolve, cut)
    with BuildSketch(Plane(origin=(0, 0, 0), x_dir=(-0.18301270189221766, 0.965925826289069, 0.18301270189221763), z_dir=(-0.7071067811865475, 0, -0.7071067811865476))):
        with BuildLine():
            Line((0, 17), (0, 20))
            ThreePointArc((0, 20), (-1.5, 19.943670675), (-2.991550601, 19.775))
            ThreePointArc((-2.991550601, 19.775), (-2.040220576, 17.800568255), (0, 17))
        make_face()
    revolve(axis=Axis((11.611215932, 4.399923767, -11.611215932), (0.6830127018922199, 0.2588190451025184, -0.6830127018922197)), mode=Mode.SUBTRACT)

    # CirPattern2 copy 18 sketch → CirPattern2 copy 18 (revolve, cut)
    with BuildSketch(Plane(origin=(0, 0, 0), x_dir=(0, 0.965925826289069, 0.2588190451025184), z_dir=(-1, 0, 0))):
        with BuildLine():
            Line((0, 17), (0, 20))
            ThreePointArc((0, 20), (-1.5, 19.943670675), (-2.991550601, 19.775))
            ThreePointArc((-2.991550601, 19.775), (-2.040220576, 17.800568255), (0, 17))
        make_face()
    revolve(axis=Axis((0, 4.399923767, -16.420739047), (0, 0.2588190451025184, -0.965925826289069)), mode=Mode.SUBTRACT)

    # CirPattern2 copy 19 sketch → CirPattern2 copy 19 (revolve, cut)
    with BuildSketch(Plane(origin=(0, 0, 0), x_dir=(0.18301270189221763, 0.965925826289069, 0.1830127018922177), z_dir=(-0.7071067811865477, 0, 0.7071067811865475))):
        with BuildLine():
            Line((0, 17), (0, 20))
            ThreePointArc((0, 20), (-1.5, 19.943670675), (-2.991550601, 19.775))
            ThreePointArc((-2.991550601, 19.775), (-2.040220576, 17.800568255), (0, 17))
        make_face()
    revolve(axis=Axis((-11.611215932, 4.399923767, -11.611215932), (-0.6830127018922197, 0.2588190451025184, -0.68301270189222)), mode=Mode.SUBTRACT)

    # CirPattern2 copy 20 sketch → CirPattern2 copy 20 (revolve, cut)
    with BuildSketch(Plane(origin=(0, 0, 0), x_dir=(0.2588190451025184, 0.965925826289069, 0), z_dir=(0, 0, 1))):
        with BuildLine():
            Line((0, 17), (0, 20))
            ThreePointArc((0, 20), (-1.5, 19.943670675), (-2.991550601, 19.775))
            ThreePointArc((-2.991550601, 19.775), (-2.040220576, 17.800568255), (0, 17))
        make_face()
    revolve(axis=Axis((-16.420739047, 4.399923767, 0), (-0.965925826289069, 0.2588190451025184, 0)), mode=Mode.SUBTRACT)

    # CirPattern2 copy 21 sketch → CirPattern2 copy 21 (revolve, cut)
    with BuildSketch(Plane(origin=(0, 0, 0), x_dir=(0.1830127018922177, 0.965925826289069, -0.1830127018922176), z_dir=(0.7071067811865474, 0, 0.7071067811865477))):
        with BuildLine():
            Line((0, 17), (0, 20))
            ThreePointArc((0, 20), (-1.5, 19.943670675), (-2.991550601, 19.775))
            ThreePointArc((-2.991550601, 19.775), (-2.040220576, 17.800568255), (0, 17))
        make_face()
    revolve(axis=Axis((-11.611215932, 4.399923767, 11.611215932), (-0.68301270189222, 0.2588190451025184, 0.6830127018922196)), mode=Mode.SUBTRACT)

    # Mirror1: part across plane


with BuildPart() as part_1:
    add(part.part)
    add(part.part.mirror(Plane(origin=(0, 0, 0), x_dir=(0, 0, 1), z_dir=(0, -1, 0))))


solid = part_1.part
